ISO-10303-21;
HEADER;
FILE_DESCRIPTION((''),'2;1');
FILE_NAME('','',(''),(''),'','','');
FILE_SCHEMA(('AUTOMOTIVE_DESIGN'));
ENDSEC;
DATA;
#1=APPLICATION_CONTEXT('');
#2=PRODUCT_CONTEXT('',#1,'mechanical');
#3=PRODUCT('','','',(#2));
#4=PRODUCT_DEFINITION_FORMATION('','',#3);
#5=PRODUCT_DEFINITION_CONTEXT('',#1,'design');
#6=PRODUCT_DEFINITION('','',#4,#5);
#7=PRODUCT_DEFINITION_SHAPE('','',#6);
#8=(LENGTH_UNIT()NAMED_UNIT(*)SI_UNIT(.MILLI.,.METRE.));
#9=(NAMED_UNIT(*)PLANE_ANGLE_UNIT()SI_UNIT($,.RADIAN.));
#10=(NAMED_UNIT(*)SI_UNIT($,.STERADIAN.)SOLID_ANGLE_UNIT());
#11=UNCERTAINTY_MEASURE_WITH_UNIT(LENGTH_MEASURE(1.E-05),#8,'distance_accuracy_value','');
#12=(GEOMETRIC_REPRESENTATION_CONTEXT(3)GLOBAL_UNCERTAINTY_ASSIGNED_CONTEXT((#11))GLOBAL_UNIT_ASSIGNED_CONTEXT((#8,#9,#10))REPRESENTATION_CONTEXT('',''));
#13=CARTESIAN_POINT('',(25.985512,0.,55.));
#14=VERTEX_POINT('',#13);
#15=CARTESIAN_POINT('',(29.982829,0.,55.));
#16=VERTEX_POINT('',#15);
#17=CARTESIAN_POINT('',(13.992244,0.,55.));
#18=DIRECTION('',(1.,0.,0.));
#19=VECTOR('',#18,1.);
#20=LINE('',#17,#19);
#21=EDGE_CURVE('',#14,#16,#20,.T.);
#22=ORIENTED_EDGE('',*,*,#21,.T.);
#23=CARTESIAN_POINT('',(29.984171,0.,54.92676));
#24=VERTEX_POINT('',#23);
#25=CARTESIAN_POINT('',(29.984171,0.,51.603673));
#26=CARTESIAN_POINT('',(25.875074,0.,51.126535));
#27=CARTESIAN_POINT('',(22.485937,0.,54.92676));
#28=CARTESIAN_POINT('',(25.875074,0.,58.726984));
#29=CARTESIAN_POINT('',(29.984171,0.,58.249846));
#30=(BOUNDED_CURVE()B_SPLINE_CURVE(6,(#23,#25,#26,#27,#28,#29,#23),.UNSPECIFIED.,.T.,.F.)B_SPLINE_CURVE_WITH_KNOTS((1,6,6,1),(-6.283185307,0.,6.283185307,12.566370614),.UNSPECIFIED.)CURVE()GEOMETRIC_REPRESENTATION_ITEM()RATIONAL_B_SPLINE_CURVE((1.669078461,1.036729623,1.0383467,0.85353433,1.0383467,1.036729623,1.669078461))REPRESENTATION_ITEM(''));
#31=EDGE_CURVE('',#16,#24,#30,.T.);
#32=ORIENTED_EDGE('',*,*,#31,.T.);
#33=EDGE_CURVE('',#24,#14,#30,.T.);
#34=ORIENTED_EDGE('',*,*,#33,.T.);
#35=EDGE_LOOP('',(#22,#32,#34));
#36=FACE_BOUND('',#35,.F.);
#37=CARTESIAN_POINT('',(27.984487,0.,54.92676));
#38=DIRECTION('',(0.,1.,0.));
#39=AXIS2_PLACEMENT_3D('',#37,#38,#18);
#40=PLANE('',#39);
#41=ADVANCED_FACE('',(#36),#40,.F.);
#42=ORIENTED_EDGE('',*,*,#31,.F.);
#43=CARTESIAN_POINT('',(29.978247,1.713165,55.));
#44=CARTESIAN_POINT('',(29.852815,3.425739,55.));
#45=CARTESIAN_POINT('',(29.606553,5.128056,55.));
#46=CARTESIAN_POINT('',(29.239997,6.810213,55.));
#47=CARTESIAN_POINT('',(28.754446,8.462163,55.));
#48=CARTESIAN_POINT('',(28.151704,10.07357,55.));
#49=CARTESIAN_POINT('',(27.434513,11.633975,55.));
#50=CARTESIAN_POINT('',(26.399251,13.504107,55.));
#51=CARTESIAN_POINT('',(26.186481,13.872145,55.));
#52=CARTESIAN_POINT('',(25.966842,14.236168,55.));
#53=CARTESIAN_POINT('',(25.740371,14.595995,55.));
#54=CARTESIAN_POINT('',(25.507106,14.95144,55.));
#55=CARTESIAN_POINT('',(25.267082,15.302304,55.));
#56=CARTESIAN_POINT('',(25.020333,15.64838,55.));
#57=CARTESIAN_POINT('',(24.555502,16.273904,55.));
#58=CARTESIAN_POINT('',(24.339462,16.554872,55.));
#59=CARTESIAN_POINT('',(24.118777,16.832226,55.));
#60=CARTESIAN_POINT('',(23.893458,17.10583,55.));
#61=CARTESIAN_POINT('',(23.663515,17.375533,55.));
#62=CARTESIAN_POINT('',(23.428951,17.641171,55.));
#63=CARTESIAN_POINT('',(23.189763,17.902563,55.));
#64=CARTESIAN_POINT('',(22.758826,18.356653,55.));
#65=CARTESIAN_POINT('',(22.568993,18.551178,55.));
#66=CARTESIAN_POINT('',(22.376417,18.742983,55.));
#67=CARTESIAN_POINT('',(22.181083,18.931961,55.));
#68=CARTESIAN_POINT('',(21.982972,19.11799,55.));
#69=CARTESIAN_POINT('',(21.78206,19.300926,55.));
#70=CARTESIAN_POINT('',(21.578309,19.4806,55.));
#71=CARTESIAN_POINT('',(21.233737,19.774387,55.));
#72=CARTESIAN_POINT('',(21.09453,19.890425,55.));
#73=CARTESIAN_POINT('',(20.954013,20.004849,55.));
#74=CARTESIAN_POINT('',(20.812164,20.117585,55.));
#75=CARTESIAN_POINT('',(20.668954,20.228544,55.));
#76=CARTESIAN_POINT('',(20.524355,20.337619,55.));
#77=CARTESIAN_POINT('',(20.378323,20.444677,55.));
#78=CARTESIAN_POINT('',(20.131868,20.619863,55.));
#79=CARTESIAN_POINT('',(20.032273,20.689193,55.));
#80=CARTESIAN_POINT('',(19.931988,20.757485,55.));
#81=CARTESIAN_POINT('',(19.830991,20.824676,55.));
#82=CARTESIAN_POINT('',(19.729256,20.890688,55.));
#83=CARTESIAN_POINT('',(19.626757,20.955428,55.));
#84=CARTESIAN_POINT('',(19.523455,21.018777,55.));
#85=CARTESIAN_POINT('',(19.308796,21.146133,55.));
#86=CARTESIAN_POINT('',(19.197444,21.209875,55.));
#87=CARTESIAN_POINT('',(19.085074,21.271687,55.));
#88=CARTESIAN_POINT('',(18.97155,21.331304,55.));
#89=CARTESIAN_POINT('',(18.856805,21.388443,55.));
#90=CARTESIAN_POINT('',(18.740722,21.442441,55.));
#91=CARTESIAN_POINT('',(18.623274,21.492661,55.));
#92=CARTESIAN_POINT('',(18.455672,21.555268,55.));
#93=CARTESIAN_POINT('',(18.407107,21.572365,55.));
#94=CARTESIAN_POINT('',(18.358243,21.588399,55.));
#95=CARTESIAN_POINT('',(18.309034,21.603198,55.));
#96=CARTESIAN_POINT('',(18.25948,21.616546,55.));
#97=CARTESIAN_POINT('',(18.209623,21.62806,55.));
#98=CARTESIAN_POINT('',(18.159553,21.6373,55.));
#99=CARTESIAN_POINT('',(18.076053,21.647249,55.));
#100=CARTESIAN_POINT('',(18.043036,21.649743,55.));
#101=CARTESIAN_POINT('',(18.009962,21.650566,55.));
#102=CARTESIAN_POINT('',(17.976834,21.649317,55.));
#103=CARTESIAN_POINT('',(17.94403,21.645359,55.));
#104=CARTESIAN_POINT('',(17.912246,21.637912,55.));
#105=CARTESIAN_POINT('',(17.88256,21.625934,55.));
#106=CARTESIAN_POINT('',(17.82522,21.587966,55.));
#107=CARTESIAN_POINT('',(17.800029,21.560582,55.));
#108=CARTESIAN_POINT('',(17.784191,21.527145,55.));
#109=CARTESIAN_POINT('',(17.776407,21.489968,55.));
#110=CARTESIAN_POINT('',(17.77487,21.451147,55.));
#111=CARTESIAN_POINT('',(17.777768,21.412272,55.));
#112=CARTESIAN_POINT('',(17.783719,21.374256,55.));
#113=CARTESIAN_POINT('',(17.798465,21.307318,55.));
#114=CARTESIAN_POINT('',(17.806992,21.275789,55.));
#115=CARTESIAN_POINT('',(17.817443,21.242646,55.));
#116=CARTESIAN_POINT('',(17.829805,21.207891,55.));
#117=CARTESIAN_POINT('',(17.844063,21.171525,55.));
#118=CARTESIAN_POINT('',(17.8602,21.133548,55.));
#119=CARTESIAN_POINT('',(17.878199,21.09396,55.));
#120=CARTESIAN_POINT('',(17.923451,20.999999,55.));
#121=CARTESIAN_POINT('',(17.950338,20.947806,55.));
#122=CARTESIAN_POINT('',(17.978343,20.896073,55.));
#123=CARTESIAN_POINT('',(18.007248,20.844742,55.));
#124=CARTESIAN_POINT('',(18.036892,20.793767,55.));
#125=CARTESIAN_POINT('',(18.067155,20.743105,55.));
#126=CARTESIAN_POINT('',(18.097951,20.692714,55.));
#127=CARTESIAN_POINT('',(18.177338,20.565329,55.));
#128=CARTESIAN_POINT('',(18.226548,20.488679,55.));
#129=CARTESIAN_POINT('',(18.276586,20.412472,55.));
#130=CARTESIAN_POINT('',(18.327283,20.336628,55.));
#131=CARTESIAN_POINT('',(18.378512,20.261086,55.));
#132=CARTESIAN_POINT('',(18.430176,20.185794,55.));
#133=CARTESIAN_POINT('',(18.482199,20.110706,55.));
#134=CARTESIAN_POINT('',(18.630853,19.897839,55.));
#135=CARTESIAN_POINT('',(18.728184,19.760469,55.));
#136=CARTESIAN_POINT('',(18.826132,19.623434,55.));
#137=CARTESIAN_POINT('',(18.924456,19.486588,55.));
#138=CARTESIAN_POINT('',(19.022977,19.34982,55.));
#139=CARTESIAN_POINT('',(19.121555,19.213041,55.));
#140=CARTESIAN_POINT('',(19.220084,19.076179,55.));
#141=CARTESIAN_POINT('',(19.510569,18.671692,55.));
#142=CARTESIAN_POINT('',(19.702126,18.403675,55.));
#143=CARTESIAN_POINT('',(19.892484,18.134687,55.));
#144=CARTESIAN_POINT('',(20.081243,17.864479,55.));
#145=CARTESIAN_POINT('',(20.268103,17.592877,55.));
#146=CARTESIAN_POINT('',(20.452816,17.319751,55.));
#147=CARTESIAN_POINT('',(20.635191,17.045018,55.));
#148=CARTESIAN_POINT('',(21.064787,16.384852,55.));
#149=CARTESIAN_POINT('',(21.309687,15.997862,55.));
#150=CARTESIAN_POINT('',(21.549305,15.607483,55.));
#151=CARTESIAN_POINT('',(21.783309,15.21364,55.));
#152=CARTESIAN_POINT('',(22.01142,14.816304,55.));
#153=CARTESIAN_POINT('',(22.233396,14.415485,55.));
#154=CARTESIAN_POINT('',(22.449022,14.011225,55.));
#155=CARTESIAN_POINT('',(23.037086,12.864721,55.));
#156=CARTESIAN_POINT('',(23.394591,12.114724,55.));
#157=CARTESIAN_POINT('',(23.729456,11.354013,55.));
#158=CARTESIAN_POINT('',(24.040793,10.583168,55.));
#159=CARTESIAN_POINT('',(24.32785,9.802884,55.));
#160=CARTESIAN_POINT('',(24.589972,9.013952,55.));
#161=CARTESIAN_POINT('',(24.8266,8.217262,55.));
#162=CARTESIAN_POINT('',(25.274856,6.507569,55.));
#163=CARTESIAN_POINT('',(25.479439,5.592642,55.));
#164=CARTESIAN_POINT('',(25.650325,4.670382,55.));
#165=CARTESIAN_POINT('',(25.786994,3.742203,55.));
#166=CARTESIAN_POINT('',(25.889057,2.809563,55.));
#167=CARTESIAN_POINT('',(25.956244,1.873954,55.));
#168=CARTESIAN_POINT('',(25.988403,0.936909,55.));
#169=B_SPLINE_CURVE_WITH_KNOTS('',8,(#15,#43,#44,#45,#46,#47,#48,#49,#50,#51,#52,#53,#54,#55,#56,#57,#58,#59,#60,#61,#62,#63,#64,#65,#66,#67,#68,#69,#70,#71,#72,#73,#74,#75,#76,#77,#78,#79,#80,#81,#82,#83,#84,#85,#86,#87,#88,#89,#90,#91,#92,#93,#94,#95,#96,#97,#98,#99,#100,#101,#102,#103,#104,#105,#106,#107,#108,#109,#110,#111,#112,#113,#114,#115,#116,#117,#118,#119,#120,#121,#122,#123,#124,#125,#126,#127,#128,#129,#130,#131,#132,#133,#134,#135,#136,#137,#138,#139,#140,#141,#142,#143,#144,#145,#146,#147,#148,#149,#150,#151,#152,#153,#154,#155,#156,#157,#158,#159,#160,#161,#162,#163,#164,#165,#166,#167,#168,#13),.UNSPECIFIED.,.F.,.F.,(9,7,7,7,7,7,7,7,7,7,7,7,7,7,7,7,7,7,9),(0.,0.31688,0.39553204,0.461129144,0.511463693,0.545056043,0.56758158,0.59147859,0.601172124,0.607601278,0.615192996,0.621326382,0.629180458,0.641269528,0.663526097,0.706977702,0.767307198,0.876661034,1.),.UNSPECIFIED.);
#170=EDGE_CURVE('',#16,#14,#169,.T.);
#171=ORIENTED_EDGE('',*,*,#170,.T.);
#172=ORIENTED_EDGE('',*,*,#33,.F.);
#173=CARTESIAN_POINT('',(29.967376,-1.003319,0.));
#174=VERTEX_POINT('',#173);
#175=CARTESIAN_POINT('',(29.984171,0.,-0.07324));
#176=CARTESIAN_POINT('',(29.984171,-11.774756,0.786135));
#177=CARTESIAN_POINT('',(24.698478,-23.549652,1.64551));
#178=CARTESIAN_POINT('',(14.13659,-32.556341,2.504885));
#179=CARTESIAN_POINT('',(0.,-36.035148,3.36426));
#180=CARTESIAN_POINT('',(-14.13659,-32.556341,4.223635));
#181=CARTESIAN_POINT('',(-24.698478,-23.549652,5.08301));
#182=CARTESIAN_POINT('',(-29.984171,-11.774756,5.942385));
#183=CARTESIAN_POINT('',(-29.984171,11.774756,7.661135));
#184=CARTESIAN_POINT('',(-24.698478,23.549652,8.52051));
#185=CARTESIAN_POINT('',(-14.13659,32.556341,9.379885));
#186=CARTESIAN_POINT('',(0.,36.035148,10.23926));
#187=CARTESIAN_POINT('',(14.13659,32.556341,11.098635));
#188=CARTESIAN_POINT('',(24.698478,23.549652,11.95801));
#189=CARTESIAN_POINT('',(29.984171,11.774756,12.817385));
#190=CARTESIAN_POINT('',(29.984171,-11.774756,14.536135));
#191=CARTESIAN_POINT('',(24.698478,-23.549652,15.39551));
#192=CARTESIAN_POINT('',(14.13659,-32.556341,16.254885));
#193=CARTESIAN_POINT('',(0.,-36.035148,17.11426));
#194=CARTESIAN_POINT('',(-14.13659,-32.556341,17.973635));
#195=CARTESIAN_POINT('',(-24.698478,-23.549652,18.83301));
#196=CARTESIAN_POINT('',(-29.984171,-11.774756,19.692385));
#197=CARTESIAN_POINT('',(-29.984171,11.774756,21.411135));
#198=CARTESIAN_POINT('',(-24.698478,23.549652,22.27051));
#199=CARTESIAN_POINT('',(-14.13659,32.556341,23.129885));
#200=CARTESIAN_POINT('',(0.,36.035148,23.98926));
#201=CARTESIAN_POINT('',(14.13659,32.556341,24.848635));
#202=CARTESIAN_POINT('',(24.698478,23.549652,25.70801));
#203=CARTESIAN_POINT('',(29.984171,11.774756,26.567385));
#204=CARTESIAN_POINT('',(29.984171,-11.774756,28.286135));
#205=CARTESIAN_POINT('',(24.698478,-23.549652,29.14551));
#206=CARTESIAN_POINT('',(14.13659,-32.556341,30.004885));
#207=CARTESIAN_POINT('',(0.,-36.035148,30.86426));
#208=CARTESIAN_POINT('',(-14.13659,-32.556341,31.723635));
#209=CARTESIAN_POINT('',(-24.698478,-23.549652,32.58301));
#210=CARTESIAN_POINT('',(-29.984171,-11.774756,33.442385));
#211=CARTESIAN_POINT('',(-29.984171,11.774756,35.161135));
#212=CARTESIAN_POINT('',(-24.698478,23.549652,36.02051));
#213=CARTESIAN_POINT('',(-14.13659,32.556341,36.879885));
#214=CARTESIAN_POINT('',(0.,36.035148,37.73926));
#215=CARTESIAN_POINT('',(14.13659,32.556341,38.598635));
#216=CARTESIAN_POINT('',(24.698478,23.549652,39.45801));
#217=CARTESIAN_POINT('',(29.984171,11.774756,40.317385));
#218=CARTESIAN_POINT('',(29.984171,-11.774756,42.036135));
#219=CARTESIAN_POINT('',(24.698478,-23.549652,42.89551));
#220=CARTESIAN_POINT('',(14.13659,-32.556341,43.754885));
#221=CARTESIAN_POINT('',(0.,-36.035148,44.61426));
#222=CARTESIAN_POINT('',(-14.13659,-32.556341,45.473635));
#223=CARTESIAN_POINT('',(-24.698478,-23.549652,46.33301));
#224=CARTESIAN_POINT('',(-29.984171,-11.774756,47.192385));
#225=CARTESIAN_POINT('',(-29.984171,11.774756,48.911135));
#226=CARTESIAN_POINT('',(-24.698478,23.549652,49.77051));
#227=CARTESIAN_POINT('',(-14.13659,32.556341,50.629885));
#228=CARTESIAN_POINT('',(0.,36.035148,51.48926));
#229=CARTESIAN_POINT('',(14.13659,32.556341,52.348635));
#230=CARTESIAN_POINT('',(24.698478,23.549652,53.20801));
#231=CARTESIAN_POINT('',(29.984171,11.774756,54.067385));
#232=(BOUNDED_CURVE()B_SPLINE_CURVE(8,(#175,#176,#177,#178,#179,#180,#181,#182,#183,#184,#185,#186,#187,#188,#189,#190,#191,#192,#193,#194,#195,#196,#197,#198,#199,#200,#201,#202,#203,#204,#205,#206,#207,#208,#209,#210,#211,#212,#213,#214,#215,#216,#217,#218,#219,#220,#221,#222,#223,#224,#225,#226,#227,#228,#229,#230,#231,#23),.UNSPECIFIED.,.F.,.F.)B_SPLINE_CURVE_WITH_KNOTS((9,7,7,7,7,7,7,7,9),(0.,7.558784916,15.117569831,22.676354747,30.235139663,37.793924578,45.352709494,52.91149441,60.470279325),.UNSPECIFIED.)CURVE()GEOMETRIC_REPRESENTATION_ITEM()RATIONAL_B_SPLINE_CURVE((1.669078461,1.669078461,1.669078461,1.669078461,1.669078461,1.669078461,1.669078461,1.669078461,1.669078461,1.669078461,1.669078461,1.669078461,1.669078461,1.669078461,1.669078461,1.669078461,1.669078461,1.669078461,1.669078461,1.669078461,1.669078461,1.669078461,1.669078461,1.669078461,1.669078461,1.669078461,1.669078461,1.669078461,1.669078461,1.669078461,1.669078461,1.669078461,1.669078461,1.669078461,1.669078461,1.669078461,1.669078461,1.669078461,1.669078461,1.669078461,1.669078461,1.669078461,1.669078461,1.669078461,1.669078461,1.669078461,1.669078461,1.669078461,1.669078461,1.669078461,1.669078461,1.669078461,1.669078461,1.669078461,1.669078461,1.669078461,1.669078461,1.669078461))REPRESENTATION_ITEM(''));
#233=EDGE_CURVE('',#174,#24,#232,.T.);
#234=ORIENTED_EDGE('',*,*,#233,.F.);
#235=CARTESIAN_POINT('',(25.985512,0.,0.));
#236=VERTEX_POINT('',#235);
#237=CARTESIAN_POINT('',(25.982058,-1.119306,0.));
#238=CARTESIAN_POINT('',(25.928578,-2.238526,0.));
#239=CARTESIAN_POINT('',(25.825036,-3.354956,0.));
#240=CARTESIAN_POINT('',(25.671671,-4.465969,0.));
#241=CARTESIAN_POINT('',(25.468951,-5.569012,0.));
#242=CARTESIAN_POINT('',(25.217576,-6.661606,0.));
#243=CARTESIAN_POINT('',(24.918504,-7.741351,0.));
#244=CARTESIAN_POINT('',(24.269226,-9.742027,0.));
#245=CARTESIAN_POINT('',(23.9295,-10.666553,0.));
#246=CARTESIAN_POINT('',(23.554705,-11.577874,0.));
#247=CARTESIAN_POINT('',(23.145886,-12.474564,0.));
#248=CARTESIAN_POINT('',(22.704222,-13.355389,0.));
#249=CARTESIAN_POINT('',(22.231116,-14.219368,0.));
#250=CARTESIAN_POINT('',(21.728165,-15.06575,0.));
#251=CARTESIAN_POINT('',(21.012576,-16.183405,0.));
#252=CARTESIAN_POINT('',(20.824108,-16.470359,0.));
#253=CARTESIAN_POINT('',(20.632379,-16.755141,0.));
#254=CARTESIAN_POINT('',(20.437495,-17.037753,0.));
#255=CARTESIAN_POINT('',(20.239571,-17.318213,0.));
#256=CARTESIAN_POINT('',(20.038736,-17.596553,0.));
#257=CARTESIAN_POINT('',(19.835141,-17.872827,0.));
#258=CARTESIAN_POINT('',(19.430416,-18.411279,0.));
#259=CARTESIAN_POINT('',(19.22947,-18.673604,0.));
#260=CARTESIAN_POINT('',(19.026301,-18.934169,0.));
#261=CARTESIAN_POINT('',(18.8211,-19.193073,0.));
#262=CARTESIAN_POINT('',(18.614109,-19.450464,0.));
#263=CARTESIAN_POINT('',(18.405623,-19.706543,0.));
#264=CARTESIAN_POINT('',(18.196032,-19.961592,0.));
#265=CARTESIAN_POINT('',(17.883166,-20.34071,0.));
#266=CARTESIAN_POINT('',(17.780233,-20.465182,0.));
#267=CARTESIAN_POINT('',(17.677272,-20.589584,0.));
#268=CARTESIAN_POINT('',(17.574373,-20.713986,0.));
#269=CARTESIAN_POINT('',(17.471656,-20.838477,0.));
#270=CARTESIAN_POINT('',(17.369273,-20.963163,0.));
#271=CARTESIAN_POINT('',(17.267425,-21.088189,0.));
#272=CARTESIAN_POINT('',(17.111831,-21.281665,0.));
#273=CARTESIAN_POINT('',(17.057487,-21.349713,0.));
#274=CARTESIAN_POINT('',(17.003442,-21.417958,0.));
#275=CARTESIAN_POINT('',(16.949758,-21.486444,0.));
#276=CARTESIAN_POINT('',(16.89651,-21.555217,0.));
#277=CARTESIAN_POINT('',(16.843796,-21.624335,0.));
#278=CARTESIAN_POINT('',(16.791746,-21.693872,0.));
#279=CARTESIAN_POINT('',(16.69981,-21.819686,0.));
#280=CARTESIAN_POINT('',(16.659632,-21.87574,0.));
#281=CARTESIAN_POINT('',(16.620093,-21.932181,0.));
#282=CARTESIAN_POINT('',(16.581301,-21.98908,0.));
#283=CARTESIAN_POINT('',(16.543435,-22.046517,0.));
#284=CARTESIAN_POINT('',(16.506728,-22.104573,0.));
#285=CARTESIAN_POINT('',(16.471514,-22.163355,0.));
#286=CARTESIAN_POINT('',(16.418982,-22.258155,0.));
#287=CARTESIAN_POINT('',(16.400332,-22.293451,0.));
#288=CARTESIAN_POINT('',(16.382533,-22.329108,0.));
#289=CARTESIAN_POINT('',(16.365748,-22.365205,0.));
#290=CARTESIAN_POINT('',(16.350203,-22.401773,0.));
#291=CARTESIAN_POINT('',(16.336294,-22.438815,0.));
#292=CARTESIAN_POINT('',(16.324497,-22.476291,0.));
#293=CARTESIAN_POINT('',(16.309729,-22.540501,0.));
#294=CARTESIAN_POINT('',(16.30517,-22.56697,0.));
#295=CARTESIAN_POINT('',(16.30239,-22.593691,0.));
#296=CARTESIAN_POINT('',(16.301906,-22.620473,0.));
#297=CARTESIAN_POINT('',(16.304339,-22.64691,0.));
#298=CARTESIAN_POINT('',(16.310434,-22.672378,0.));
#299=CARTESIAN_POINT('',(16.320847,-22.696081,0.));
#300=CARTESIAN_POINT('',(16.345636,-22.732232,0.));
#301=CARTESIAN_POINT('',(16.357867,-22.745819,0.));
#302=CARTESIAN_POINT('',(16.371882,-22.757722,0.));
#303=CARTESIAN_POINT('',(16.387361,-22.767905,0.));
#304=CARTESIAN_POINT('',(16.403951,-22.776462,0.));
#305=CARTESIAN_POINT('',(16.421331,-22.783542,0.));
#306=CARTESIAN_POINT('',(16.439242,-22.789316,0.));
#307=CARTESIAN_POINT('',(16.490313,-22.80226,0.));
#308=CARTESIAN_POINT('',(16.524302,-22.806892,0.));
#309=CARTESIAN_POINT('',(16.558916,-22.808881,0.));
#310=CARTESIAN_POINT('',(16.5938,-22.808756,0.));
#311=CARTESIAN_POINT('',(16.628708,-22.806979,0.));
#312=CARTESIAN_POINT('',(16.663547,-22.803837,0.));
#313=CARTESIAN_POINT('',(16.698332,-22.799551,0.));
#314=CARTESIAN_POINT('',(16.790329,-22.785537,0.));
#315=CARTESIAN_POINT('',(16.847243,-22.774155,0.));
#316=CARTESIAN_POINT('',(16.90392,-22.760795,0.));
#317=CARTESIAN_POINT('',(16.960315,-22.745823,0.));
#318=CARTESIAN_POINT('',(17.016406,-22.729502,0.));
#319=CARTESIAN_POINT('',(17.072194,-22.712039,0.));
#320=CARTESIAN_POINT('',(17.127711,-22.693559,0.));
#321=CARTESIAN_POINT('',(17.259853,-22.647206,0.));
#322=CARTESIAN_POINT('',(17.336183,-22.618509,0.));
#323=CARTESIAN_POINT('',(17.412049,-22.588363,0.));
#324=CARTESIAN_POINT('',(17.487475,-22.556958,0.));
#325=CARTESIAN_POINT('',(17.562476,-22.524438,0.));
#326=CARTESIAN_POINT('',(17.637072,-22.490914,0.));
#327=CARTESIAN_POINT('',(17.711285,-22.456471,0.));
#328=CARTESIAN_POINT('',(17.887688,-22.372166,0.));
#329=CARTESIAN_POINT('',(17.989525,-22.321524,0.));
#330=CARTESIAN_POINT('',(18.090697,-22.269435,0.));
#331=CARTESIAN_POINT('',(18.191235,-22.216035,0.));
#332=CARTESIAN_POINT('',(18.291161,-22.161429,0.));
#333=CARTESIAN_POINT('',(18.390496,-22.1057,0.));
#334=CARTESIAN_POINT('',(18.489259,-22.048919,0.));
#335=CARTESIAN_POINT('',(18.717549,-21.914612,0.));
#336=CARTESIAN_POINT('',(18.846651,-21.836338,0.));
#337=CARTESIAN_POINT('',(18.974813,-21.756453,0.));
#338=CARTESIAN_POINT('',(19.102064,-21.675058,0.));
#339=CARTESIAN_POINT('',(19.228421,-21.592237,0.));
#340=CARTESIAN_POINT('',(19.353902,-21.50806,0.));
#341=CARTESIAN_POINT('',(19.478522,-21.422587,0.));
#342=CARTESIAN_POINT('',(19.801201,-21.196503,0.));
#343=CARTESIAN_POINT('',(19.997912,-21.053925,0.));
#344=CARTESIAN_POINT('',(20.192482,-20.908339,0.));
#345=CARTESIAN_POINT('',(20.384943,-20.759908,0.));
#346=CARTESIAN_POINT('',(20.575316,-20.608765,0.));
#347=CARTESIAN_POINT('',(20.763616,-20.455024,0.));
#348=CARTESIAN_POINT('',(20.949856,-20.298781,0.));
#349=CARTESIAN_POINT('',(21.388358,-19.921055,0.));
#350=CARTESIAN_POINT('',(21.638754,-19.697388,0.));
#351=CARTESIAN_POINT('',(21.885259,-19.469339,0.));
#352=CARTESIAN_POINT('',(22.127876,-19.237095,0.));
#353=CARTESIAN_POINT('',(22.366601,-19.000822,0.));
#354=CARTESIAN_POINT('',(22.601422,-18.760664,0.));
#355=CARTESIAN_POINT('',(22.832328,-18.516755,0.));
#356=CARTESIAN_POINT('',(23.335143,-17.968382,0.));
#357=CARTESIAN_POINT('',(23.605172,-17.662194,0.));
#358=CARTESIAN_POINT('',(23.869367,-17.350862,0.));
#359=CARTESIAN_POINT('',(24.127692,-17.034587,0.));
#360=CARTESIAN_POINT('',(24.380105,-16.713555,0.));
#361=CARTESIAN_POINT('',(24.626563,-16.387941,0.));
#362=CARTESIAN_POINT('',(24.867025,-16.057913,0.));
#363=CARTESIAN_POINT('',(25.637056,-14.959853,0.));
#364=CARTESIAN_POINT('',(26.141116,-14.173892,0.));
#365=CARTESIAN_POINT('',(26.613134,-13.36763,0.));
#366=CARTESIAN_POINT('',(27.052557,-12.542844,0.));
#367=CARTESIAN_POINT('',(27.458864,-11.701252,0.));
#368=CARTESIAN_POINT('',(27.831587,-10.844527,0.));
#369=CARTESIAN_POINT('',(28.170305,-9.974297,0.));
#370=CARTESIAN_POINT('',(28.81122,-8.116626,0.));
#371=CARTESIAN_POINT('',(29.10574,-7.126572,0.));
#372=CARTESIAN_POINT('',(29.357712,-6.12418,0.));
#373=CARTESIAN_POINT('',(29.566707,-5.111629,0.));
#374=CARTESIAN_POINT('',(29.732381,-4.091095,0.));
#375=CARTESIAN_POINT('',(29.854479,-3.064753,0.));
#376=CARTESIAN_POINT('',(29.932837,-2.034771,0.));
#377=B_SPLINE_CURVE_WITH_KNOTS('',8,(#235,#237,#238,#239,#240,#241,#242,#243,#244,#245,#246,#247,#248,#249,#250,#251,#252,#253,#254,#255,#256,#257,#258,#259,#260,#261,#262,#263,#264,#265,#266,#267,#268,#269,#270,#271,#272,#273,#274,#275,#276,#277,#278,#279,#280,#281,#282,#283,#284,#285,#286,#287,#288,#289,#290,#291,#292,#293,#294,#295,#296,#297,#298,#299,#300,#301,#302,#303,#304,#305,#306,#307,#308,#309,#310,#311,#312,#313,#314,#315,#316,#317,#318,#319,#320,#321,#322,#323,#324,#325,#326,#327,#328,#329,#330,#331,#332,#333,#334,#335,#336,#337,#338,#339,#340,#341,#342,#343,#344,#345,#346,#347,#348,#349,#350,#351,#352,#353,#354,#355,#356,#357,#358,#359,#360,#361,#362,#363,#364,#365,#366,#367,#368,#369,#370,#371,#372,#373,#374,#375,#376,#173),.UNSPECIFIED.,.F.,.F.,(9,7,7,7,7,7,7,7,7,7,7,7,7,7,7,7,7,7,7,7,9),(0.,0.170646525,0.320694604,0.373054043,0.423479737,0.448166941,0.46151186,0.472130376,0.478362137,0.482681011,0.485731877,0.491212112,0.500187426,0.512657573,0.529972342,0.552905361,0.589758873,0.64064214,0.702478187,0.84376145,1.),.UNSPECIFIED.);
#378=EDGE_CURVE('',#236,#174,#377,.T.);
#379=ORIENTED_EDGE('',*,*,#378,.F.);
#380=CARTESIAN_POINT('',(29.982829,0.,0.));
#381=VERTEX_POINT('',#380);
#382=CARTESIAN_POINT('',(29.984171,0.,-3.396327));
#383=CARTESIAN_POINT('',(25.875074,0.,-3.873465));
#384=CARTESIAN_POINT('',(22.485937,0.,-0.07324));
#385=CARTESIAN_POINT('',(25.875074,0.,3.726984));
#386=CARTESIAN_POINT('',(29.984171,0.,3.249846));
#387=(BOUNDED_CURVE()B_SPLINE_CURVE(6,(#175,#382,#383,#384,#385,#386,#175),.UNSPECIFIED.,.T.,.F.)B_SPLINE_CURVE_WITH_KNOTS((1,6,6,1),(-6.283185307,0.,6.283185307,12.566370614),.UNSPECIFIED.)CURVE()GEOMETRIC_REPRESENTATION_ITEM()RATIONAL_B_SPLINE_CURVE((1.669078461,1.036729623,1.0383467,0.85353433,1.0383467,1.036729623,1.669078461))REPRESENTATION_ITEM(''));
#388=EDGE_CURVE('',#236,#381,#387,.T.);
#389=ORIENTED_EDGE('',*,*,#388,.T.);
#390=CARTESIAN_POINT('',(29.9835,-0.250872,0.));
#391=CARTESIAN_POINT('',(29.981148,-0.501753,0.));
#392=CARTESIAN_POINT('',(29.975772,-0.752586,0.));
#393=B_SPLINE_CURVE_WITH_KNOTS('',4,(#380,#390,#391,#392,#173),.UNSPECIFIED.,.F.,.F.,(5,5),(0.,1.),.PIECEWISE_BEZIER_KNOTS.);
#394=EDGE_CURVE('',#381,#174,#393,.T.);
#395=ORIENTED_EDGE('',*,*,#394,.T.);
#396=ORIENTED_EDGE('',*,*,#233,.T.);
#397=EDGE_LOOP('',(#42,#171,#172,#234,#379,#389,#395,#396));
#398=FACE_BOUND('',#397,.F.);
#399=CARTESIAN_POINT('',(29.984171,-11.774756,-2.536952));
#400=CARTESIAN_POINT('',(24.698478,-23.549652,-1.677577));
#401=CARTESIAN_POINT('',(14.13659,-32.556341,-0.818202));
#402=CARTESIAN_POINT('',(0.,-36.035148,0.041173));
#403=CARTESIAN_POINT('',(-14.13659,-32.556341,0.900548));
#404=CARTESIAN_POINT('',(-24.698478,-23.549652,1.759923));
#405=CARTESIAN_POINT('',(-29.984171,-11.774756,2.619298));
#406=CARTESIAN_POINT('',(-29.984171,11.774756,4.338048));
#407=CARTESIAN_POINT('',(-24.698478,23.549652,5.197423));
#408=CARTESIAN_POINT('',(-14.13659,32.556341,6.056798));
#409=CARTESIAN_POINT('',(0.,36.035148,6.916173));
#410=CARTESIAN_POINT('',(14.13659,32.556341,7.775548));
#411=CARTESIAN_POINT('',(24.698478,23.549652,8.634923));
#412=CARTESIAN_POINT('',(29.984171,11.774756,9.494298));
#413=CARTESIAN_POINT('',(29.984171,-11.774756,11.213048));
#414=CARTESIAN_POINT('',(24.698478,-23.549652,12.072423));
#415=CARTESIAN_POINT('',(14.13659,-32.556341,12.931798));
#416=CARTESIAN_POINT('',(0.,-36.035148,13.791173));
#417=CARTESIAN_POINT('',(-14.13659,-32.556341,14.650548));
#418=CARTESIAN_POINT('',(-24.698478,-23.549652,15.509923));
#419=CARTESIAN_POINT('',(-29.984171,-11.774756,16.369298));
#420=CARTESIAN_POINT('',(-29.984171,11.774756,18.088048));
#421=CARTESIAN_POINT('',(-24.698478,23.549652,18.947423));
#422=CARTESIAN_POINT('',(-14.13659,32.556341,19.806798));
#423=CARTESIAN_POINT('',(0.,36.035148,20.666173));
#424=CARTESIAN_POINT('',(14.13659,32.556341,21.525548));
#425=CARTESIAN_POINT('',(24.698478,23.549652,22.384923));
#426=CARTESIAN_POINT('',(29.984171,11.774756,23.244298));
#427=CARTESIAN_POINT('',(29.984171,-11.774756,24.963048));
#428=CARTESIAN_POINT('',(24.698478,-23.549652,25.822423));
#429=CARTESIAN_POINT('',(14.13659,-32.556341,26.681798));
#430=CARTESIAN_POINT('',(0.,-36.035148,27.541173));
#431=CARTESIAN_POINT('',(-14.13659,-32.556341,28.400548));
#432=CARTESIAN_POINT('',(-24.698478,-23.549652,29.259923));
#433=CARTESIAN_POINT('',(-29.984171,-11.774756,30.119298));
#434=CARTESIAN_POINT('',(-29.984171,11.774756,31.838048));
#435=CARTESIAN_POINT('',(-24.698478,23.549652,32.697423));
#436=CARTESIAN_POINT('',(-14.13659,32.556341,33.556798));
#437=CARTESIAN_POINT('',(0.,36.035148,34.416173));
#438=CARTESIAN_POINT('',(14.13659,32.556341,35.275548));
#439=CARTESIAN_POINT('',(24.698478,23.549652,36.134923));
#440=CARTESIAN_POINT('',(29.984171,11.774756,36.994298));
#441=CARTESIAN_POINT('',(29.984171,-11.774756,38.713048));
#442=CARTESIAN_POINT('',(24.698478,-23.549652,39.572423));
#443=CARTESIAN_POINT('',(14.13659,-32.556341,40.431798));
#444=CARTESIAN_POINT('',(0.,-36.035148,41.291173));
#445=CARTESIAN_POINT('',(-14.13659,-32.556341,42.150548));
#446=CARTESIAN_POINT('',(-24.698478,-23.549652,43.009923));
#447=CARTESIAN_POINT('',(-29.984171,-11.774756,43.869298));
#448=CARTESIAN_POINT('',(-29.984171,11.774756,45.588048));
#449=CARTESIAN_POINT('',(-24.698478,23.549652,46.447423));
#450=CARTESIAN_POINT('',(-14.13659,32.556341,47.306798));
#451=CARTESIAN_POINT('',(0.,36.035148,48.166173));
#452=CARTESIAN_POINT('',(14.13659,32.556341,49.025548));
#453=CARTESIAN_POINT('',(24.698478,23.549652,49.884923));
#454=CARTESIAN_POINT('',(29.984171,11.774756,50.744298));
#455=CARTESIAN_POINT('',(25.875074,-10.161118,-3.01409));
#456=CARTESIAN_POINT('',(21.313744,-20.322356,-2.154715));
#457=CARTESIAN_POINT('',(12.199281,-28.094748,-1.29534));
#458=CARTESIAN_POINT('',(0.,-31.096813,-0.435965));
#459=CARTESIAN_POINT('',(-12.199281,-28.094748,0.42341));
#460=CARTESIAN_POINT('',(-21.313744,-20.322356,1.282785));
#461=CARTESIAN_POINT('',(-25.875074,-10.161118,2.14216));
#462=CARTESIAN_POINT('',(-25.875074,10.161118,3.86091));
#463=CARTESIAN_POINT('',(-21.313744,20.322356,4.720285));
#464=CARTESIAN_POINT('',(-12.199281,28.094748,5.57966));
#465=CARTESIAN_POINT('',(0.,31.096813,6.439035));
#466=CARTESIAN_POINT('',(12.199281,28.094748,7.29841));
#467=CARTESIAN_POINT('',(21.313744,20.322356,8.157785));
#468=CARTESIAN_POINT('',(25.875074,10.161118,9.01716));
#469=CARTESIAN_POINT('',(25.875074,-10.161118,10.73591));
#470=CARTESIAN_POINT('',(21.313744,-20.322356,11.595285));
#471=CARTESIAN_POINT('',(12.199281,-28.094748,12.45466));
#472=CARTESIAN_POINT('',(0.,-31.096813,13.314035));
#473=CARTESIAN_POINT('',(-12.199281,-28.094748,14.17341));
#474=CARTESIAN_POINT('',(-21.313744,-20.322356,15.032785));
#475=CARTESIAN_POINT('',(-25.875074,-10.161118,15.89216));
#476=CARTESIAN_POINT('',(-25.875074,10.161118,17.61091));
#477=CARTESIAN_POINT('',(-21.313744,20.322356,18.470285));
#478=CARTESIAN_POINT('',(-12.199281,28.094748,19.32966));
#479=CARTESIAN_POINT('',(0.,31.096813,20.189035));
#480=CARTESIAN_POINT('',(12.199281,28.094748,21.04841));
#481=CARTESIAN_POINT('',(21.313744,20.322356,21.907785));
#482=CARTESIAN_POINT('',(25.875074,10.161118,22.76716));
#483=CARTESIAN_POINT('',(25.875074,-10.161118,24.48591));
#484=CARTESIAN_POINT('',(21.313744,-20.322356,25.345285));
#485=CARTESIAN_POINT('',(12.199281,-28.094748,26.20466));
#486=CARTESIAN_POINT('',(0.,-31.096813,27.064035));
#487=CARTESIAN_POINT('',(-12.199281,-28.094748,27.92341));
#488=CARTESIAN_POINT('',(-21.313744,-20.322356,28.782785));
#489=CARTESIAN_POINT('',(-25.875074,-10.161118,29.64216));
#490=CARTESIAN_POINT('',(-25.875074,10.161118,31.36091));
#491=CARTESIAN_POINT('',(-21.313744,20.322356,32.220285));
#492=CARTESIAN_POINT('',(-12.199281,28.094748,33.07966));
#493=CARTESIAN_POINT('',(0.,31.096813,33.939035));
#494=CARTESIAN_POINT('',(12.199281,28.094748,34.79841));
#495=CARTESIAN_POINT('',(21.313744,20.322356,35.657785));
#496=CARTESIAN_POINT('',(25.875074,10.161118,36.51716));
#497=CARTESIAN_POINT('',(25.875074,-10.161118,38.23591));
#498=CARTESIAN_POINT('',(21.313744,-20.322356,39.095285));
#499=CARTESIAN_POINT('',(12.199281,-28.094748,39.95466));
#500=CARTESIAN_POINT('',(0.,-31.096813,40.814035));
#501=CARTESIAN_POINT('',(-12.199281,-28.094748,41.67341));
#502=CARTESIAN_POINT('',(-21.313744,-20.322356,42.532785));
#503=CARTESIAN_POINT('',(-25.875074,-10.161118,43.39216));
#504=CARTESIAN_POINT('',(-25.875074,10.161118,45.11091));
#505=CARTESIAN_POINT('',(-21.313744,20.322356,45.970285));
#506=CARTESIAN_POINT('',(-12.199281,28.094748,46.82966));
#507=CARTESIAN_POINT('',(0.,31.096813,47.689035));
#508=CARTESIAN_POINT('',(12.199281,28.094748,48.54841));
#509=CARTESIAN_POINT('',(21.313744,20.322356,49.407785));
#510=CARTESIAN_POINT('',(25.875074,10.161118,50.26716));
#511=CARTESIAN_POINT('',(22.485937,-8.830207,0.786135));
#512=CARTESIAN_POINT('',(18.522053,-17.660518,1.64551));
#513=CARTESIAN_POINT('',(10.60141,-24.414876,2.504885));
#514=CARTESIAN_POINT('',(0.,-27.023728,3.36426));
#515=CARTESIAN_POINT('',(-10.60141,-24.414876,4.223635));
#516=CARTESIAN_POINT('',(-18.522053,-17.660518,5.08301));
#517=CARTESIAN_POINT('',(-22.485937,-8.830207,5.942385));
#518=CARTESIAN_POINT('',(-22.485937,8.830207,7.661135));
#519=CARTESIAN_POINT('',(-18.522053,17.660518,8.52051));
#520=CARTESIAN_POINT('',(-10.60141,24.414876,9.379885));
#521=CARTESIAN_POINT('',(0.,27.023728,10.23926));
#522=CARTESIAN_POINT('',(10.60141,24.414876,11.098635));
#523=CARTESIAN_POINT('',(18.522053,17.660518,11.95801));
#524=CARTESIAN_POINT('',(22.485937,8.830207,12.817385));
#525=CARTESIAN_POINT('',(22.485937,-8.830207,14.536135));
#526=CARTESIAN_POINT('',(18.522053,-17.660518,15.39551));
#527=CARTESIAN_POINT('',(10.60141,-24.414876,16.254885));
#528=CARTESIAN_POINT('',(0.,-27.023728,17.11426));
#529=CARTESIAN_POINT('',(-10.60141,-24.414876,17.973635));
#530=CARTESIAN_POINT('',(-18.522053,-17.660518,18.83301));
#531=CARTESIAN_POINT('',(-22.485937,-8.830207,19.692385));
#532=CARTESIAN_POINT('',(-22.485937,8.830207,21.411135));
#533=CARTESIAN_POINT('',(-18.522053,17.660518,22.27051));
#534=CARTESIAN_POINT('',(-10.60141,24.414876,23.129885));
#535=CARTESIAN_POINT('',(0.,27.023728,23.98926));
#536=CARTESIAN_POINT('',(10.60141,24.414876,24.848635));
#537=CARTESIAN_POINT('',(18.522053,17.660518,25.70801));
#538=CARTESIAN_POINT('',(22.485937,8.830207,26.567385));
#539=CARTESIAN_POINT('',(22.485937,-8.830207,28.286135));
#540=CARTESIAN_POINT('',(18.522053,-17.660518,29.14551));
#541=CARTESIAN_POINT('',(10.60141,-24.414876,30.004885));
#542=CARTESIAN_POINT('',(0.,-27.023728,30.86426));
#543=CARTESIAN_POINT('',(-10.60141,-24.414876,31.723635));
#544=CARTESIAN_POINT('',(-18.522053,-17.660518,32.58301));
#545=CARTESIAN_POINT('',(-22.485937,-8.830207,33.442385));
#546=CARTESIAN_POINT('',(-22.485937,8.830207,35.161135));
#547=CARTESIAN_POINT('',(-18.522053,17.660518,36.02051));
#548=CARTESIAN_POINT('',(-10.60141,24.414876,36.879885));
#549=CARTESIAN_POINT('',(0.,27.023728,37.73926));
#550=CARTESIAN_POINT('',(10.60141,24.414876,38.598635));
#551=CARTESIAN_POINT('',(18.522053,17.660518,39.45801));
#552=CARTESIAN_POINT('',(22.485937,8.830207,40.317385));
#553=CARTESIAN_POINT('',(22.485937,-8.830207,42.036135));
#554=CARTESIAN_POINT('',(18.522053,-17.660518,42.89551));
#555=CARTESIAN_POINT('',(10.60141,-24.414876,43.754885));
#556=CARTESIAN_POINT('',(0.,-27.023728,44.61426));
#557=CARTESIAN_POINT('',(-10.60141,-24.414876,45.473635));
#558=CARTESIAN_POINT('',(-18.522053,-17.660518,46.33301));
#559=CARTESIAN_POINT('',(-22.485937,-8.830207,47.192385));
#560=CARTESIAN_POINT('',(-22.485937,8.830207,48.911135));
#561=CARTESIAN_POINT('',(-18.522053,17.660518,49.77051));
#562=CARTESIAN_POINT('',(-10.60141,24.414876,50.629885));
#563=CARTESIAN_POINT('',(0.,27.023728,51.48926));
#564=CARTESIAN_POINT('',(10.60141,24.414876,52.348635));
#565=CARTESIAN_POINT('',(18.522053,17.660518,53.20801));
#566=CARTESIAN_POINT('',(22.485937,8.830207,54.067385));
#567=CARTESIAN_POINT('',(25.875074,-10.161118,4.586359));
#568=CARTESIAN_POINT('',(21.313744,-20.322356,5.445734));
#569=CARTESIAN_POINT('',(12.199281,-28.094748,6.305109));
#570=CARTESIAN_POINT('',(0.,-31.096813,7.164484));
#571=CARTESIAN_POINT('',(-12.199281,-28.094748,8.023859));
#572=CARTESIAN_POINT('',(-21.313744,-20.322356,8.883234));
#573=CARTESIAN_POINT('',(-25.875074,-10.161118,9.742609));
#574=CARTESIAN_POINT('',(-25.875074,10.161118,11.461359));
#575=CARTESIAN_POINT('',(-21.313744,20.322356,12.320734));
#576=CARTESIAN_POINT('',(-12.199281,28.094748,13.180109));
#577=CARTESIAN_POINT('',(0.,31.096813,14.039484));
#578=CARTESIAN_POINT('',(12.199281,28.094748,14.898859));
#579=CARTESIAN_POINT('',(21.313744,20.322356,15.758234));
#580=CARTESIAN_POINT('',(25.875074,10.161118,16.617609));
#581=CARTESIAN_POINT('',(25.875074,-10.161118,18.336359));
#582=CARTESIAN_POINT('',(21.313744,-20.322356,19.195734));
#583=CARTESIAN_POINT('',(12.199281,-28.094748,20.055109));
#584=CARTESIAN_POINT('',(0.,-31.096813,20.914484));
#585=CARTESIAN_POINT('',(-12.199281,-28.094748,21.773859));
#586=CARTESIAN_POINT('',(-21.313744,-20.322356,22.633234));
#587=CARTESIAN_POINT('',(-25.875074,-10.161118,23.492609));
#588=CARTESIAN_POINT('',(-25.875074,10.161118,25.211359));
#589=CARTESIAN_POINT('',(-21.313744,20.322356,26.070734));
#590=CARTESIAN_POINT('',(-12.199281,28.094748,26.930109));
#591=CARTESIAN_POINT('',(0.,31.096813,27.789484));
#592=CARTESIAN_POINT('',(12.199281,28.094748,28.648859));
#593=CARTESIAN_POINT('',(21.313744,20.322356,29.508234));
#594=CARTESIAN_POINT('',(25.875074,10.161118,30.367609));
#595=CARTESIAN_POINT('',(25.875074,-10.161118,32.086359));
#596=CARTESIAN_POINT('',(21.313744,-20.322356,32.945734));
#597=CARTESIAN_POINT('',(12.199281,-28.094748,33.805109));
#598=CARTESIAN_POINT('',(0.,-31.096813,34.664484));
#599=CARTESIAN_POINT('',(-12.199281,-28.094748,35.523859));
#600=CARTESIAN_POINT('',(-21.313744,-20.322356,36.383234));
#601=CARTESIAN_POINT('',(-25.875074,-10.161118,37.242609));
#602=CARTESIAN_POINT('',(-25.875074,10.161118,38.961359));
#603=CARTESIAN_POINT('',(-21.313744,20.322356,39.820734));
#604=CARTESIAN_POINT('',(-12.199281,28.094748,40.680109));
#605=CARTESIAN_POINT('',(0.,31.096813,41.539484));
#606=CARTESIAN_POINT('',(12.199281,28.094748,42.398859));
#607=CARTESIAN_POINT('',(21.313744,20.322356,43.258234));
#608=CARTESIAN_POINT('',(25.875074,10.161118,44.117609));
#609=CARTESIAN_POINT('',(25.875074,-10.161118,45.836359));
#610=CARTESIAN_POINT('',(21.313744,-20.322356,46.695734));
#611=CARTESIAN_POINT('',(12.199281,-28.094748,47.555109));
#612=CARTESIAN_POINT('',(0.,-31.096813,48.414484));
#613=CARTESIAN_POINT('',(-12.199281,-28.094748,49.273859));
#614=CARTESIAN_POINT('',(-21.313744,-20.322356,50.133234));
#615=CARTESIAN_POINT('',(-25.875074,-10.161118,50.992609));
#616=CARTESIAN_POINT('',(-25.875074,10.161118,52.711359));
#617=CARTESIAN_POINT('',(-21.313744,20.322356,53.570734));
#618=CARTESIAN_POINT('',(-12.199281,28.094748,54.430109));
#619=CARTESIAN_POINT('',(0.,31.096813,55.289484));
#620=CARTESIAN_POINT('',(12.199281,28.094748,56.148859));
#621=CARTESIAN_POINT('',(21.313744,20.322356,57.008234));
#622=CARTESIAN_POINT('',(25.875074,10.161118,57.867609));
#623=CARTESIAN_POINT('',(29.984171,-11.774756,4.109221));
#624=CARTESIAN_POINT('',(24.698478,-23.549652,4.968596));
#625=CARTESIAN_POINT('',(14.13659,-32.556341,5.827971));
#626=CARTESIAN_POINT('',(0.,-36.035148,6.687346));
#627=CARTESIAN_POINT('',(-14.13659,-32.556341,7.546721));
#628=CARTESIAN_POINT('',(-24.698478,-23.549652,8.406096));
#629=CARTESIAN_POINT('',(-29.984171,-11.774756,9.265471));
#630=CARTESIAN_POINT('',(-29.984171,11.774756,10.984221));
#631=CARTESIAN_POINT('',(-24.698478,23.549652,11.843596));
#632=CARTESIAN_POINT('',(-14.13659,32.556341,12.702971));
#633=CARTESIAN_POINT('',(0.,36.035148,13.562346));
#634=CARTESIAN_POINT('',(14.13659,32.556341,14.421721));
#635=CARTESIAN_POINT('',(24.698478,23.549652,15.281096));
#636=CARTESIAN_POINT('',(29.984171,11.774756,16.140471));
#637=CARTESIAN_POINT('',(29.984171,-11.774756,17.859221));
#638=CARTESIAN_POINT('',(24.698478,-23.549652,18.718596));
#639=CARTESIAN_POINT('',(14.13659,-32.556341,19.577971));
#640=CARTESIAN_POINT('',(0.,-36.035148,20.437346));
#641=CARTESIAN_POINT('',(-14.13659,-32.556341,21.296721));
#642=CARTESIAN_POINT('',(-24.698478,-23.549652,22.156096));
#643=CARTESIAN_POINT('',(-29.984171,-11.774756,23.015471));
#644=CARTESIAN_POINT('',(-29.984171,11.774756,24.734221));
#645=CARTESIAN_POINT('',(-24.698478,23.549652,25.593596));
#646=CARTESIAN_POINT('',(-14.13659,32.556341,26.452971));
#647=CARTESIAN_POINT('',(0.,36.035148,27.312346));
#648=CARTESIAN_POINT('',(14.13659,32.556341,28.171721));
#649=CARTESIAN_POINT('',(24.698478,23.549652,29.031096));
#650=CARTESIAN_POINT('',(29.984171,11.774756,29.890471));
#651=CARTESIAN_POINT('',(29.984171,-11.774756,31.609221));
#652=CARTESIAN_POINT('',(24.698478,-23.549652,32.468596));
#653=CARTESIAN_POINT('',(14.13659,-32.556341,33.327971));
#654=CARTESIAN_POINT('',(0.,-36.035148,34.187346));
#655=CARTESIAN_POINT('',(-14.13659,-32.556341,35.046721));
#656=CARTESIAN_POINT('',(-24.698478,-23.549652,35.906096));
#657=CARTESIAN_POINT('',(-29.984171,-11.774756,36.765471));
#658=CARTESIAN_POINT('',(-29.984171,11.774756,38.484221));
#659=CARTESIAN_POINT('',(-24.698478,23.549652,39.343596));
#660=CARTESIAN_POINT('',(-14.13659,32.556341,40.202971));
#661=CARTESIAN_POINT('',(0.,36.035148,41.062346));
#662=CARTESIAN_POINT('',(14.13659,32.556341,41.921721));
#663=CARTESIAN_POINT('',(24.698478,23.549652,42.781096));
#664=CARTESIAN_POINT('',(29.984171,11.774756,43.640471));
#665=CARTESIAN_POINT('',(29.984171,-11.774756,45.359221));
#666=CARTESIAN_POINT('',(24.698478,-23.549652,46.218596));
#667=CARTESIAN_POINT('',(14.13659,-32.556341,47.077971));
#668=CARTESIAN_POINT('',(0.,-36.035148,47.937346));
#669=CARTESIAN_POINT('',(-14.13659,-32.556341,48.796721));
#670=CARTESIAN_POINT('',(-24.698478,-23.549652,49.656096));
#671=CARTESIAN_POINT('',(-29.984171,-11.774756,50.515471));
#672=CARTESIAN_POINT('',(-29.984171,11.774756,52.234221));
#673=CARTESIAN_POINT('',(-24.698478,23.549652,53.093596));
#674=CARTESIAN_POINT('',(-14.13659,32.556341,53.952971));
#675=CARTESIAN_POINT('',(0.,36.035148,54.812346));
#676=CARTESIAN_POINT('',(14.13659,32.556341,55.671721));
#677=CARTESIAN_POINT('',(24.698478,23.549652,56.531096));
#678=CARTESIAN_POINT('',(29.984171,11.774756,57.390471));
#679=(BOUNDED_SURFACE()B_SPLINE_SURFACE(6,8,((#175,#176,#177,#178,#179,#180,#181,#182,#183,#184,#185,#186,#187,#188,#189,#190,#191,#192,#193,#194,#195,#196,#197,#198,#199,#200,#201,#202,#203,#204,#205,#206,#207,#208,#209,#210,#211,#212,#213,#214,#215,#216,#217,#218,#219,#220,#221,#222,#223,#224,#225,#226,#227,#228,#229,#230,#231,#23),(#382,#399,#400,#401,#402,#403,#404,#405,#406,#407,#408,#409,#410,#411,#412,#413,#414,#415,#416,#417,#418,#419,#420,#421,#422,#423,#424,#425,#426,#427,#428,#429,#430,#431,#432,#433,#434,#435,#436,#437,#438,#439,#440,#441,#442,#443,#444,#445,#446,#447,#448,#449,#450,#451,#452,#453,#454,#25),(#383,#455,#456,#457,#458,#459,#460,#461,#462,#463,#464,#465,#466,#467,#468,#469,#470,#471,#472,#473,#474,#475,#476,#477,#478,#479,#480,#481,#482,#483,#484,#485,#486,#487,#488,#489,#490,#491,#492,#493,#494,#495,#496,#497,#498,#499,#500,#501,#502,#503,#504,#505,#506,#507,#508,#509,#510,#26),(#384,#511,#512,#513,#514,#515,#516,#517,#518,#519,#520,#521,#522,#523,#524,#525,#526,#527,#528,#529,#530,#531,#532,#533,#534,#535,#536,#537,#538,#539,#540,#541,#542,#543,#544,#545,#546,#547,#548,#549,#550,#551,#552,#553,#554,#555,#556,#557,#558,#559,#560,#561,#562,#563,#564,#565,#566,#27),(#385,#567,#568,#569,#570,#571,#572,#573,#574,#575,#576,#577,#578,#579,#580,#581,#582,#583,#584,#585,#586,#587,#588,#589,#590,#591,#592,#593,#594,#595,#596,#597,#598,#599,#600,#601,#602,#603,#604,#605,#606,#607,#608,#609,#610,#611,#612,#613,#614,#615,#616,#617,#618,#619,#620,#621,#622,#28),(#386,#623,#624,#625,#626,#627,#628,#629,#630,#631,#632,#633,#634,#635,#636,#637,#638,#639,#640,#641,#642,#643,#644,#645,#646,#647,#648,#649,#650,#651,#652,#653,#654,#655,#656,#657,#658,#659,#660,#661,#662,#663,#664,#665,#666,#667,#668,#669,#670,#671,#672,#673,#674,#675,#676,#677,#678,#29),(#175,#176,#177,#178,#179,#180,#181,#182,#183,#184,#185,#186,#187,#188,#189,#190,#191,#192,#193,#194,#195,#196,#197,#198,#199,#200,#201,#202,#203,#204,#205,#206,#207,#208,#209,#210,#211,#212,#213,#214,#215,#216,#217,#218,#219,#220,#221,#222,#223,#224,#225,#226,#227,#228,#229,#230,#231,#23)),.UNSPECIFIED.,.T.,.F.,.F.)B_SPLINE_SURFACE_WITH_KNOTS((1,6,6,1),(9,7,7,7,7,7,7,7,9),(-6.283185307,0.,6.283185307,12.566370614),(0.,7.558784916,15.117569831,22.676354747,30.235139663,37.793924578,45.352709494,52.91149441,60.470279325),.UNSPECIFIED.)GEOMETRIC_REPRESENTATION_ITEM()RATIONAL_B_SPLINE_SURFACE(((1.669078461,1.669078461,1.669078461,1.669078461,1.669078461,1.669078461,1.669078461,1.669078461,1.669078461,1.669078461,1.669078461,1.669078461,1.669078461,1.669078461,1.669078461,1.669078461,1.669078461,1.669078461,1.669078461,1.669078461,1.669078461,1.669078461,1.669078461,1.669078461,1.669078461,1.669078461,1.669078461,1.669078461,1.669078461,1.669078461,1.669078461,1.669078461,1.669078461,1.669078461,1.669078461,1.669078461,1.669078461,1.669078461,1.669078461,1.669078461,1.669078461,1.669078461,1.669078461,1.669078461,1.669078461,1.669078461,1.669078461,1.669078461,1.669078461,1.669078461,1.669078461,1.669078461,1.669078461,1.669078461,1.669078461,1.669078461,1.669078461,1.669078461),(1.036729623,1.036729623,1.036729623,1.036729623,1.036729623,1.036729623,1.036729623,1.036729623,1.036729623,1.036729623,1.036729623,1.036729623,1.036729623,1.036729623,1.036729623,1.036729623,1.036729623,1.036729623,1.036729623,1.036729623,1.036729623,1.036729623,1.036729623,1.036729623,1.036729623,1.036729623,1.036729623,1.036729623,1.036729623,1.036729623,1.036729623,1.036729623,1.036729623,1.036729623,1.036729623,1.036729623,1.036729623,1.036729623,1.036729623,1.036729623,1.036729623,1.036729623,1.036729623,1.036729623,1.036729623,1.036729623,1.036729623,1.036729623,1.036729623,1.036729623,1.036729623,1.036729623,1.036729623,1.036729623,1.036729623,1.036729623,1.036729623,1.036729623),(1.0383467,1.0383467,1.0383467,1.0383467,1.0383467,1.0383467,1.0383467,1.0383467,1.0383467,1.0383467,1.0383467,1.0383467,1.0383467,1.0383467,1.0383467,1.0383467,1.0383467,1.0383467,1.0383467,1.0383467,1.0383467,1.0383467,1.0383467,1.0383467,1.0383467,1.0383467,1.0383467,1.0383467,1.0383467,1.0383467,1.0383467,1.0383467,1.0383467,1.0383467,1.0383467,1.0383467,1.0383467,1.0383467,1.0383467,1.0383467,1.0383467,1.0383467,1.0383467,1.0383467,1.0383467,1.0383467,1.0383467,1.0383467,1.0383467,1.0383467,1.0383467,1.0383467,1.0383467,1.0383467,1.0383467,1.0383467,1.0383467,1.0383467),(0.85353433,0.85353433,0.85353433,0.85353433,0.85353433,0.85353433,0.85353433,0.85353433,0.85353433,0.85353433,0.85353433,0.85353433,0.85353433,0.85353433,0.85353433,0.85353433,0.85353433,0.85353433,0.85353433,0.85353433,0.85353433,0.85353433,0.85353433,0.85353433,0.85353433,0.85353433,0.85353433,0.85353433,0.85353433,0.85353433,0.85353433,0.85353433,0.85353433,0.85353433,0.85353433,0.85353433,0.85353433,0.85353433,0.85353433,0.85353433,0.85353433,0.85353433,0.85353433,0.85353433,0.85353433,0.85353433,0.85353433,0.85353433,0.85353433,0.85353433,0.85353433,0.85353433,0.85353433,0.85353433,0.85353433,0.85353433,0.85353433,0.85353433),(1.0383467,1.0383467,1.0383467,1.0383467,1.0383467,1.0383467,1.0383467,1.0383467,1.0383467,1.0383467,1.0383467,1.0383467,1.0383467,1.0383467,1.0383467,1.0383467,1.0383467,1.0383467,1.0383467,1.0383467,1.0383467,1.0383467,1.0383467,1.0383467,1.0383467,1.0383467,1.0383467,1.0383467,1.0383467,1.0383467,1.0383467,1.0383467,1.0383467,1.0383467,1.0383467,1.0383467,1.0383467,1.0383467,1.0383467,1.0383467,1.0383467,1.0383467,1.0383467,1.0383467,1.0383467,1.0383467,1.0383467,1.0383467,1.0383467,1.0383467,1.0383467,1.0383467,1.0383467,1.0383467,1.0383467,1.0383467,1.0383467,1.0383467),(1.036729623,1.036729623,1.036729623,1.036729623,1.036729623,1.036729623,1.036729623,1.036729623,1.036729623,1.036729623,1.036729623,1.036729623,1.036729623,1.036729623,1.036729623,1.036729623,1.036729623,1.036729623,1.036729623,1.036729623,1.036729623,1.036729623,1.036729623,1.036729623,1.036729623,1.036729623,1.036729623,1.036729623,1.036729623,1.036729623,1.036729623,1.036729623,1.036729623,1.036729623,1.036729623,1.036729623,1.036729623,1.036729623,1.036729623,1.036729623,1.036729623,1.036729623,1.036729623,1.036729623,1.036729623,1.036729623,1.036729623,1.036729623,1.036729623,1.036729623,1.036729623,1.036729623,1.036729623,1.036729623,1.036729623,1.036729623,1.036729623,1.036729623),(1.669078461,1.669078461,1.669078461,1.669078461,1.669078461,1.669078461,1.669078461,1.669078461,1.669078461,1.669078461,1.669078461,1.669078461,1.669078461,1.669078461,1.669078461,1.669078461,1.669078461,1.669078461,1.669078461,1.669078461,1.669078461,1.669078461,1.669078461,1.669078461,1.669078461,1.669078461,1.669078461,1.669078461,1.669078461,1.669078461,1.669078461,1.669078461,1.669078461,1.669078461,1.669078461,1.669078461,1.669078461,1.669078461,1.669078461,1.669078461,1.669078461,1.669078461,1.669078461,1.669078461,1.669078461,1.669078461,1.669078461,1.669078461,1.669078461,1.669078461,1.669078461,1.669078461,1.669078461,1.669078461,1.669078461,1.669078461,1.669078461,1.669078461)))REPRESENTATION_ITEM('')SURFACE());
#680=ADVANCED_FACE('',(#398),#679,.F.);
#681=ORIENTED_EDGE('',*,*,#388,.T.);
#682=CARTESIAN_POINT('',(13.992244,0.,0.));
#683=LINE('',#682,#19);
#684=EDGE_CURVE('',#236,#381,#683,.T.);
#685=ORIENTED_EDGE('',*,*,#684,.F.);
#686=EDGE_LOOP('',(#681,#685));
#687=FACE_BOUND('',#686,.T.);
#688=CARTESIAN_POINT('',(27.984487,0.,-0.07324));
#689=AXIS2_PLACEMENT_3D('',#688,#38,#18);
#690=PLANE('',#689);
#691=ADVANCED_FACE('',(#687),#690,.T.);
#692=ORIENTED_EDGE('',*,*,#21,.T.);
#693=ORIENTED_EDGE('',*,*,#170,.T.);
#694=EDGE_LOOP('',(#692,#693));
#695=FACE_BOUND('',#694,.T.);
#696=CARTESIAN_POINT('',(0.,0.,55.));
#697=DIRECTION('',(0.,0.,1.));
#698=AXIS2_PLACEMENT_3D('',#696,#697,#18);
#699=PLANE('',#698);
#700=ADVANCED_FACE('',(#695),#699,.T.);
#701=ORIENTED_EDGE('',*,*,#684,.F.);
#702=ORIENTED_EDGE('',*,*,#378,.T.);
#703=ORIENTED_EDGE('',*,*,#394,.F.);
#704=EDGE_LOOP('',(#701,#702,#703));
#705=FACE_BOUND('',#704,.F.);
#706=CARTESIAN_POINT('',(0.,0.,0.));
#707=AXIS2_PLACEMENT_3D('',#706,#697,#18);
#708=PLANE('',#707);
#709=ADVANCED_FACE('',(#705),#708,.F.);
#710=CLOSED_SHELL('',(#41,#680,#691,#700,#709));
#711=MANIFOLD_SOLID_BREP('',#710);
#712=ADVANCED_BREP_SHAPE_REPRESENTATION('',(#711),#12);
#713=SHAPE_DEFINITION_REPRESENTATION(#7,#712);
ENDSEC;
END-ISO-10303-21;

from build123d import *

# Parameters (mm, degrees)
SWEEP1_PITCH       = 13.75
SWEEP1_HEIGHT      = 55
SWEEP1_RADIUS      = 28
SKETCH4_R          = 2
SKETCH7_R          = 41.345540302
CUT_EXTRUDE1_DEPTH = 10
SKETCH9_R          = 42.497076876
CUT_EXTRUDE2_DEPTH = 5


with BuildPart() as part:
    # Sweep1: sweep along a helix
    with BuildLine() as sweep1_path:
        Helix(SWEEP1_PITCH, SWEEP1_HEIGHT, SWEEP1_RADIUS, center=(0, 0, 0), direction=(0, 0, 1), lefthand=True)
    # Sketch4 → Sweep1 (sweep)
    with BuildSketch(Plane(origin=(0, 0, 0), x_dir=(1, 0, 0), z_dir=(0, 1, 0))):
        with Locations((27.984170591, -54.92675962)):
            Circle(SKETCH4_R)
    sweep(path=sweep1_path.line, is_frenet=True)

    # Sketch7 → Cut-Extrude1 (cut)
    with BuildSketch(Plane.XY):
        Circle(SKETCH7_R)
    extrude(amount=-CUT_EXTRUDE1_DEPTH, mode=Mode.SUBTRACT)

    # Sketch9 → Cut-Extrude2 (cut)
    with BuildSketch(Plane.XY.offset(60)):
        Circle(SKETCH9_R)
    extrude(amount=-CUT_EXTRUDE2_DEPTH, mode=Mode.SUBTRACT)


solid = part.part
